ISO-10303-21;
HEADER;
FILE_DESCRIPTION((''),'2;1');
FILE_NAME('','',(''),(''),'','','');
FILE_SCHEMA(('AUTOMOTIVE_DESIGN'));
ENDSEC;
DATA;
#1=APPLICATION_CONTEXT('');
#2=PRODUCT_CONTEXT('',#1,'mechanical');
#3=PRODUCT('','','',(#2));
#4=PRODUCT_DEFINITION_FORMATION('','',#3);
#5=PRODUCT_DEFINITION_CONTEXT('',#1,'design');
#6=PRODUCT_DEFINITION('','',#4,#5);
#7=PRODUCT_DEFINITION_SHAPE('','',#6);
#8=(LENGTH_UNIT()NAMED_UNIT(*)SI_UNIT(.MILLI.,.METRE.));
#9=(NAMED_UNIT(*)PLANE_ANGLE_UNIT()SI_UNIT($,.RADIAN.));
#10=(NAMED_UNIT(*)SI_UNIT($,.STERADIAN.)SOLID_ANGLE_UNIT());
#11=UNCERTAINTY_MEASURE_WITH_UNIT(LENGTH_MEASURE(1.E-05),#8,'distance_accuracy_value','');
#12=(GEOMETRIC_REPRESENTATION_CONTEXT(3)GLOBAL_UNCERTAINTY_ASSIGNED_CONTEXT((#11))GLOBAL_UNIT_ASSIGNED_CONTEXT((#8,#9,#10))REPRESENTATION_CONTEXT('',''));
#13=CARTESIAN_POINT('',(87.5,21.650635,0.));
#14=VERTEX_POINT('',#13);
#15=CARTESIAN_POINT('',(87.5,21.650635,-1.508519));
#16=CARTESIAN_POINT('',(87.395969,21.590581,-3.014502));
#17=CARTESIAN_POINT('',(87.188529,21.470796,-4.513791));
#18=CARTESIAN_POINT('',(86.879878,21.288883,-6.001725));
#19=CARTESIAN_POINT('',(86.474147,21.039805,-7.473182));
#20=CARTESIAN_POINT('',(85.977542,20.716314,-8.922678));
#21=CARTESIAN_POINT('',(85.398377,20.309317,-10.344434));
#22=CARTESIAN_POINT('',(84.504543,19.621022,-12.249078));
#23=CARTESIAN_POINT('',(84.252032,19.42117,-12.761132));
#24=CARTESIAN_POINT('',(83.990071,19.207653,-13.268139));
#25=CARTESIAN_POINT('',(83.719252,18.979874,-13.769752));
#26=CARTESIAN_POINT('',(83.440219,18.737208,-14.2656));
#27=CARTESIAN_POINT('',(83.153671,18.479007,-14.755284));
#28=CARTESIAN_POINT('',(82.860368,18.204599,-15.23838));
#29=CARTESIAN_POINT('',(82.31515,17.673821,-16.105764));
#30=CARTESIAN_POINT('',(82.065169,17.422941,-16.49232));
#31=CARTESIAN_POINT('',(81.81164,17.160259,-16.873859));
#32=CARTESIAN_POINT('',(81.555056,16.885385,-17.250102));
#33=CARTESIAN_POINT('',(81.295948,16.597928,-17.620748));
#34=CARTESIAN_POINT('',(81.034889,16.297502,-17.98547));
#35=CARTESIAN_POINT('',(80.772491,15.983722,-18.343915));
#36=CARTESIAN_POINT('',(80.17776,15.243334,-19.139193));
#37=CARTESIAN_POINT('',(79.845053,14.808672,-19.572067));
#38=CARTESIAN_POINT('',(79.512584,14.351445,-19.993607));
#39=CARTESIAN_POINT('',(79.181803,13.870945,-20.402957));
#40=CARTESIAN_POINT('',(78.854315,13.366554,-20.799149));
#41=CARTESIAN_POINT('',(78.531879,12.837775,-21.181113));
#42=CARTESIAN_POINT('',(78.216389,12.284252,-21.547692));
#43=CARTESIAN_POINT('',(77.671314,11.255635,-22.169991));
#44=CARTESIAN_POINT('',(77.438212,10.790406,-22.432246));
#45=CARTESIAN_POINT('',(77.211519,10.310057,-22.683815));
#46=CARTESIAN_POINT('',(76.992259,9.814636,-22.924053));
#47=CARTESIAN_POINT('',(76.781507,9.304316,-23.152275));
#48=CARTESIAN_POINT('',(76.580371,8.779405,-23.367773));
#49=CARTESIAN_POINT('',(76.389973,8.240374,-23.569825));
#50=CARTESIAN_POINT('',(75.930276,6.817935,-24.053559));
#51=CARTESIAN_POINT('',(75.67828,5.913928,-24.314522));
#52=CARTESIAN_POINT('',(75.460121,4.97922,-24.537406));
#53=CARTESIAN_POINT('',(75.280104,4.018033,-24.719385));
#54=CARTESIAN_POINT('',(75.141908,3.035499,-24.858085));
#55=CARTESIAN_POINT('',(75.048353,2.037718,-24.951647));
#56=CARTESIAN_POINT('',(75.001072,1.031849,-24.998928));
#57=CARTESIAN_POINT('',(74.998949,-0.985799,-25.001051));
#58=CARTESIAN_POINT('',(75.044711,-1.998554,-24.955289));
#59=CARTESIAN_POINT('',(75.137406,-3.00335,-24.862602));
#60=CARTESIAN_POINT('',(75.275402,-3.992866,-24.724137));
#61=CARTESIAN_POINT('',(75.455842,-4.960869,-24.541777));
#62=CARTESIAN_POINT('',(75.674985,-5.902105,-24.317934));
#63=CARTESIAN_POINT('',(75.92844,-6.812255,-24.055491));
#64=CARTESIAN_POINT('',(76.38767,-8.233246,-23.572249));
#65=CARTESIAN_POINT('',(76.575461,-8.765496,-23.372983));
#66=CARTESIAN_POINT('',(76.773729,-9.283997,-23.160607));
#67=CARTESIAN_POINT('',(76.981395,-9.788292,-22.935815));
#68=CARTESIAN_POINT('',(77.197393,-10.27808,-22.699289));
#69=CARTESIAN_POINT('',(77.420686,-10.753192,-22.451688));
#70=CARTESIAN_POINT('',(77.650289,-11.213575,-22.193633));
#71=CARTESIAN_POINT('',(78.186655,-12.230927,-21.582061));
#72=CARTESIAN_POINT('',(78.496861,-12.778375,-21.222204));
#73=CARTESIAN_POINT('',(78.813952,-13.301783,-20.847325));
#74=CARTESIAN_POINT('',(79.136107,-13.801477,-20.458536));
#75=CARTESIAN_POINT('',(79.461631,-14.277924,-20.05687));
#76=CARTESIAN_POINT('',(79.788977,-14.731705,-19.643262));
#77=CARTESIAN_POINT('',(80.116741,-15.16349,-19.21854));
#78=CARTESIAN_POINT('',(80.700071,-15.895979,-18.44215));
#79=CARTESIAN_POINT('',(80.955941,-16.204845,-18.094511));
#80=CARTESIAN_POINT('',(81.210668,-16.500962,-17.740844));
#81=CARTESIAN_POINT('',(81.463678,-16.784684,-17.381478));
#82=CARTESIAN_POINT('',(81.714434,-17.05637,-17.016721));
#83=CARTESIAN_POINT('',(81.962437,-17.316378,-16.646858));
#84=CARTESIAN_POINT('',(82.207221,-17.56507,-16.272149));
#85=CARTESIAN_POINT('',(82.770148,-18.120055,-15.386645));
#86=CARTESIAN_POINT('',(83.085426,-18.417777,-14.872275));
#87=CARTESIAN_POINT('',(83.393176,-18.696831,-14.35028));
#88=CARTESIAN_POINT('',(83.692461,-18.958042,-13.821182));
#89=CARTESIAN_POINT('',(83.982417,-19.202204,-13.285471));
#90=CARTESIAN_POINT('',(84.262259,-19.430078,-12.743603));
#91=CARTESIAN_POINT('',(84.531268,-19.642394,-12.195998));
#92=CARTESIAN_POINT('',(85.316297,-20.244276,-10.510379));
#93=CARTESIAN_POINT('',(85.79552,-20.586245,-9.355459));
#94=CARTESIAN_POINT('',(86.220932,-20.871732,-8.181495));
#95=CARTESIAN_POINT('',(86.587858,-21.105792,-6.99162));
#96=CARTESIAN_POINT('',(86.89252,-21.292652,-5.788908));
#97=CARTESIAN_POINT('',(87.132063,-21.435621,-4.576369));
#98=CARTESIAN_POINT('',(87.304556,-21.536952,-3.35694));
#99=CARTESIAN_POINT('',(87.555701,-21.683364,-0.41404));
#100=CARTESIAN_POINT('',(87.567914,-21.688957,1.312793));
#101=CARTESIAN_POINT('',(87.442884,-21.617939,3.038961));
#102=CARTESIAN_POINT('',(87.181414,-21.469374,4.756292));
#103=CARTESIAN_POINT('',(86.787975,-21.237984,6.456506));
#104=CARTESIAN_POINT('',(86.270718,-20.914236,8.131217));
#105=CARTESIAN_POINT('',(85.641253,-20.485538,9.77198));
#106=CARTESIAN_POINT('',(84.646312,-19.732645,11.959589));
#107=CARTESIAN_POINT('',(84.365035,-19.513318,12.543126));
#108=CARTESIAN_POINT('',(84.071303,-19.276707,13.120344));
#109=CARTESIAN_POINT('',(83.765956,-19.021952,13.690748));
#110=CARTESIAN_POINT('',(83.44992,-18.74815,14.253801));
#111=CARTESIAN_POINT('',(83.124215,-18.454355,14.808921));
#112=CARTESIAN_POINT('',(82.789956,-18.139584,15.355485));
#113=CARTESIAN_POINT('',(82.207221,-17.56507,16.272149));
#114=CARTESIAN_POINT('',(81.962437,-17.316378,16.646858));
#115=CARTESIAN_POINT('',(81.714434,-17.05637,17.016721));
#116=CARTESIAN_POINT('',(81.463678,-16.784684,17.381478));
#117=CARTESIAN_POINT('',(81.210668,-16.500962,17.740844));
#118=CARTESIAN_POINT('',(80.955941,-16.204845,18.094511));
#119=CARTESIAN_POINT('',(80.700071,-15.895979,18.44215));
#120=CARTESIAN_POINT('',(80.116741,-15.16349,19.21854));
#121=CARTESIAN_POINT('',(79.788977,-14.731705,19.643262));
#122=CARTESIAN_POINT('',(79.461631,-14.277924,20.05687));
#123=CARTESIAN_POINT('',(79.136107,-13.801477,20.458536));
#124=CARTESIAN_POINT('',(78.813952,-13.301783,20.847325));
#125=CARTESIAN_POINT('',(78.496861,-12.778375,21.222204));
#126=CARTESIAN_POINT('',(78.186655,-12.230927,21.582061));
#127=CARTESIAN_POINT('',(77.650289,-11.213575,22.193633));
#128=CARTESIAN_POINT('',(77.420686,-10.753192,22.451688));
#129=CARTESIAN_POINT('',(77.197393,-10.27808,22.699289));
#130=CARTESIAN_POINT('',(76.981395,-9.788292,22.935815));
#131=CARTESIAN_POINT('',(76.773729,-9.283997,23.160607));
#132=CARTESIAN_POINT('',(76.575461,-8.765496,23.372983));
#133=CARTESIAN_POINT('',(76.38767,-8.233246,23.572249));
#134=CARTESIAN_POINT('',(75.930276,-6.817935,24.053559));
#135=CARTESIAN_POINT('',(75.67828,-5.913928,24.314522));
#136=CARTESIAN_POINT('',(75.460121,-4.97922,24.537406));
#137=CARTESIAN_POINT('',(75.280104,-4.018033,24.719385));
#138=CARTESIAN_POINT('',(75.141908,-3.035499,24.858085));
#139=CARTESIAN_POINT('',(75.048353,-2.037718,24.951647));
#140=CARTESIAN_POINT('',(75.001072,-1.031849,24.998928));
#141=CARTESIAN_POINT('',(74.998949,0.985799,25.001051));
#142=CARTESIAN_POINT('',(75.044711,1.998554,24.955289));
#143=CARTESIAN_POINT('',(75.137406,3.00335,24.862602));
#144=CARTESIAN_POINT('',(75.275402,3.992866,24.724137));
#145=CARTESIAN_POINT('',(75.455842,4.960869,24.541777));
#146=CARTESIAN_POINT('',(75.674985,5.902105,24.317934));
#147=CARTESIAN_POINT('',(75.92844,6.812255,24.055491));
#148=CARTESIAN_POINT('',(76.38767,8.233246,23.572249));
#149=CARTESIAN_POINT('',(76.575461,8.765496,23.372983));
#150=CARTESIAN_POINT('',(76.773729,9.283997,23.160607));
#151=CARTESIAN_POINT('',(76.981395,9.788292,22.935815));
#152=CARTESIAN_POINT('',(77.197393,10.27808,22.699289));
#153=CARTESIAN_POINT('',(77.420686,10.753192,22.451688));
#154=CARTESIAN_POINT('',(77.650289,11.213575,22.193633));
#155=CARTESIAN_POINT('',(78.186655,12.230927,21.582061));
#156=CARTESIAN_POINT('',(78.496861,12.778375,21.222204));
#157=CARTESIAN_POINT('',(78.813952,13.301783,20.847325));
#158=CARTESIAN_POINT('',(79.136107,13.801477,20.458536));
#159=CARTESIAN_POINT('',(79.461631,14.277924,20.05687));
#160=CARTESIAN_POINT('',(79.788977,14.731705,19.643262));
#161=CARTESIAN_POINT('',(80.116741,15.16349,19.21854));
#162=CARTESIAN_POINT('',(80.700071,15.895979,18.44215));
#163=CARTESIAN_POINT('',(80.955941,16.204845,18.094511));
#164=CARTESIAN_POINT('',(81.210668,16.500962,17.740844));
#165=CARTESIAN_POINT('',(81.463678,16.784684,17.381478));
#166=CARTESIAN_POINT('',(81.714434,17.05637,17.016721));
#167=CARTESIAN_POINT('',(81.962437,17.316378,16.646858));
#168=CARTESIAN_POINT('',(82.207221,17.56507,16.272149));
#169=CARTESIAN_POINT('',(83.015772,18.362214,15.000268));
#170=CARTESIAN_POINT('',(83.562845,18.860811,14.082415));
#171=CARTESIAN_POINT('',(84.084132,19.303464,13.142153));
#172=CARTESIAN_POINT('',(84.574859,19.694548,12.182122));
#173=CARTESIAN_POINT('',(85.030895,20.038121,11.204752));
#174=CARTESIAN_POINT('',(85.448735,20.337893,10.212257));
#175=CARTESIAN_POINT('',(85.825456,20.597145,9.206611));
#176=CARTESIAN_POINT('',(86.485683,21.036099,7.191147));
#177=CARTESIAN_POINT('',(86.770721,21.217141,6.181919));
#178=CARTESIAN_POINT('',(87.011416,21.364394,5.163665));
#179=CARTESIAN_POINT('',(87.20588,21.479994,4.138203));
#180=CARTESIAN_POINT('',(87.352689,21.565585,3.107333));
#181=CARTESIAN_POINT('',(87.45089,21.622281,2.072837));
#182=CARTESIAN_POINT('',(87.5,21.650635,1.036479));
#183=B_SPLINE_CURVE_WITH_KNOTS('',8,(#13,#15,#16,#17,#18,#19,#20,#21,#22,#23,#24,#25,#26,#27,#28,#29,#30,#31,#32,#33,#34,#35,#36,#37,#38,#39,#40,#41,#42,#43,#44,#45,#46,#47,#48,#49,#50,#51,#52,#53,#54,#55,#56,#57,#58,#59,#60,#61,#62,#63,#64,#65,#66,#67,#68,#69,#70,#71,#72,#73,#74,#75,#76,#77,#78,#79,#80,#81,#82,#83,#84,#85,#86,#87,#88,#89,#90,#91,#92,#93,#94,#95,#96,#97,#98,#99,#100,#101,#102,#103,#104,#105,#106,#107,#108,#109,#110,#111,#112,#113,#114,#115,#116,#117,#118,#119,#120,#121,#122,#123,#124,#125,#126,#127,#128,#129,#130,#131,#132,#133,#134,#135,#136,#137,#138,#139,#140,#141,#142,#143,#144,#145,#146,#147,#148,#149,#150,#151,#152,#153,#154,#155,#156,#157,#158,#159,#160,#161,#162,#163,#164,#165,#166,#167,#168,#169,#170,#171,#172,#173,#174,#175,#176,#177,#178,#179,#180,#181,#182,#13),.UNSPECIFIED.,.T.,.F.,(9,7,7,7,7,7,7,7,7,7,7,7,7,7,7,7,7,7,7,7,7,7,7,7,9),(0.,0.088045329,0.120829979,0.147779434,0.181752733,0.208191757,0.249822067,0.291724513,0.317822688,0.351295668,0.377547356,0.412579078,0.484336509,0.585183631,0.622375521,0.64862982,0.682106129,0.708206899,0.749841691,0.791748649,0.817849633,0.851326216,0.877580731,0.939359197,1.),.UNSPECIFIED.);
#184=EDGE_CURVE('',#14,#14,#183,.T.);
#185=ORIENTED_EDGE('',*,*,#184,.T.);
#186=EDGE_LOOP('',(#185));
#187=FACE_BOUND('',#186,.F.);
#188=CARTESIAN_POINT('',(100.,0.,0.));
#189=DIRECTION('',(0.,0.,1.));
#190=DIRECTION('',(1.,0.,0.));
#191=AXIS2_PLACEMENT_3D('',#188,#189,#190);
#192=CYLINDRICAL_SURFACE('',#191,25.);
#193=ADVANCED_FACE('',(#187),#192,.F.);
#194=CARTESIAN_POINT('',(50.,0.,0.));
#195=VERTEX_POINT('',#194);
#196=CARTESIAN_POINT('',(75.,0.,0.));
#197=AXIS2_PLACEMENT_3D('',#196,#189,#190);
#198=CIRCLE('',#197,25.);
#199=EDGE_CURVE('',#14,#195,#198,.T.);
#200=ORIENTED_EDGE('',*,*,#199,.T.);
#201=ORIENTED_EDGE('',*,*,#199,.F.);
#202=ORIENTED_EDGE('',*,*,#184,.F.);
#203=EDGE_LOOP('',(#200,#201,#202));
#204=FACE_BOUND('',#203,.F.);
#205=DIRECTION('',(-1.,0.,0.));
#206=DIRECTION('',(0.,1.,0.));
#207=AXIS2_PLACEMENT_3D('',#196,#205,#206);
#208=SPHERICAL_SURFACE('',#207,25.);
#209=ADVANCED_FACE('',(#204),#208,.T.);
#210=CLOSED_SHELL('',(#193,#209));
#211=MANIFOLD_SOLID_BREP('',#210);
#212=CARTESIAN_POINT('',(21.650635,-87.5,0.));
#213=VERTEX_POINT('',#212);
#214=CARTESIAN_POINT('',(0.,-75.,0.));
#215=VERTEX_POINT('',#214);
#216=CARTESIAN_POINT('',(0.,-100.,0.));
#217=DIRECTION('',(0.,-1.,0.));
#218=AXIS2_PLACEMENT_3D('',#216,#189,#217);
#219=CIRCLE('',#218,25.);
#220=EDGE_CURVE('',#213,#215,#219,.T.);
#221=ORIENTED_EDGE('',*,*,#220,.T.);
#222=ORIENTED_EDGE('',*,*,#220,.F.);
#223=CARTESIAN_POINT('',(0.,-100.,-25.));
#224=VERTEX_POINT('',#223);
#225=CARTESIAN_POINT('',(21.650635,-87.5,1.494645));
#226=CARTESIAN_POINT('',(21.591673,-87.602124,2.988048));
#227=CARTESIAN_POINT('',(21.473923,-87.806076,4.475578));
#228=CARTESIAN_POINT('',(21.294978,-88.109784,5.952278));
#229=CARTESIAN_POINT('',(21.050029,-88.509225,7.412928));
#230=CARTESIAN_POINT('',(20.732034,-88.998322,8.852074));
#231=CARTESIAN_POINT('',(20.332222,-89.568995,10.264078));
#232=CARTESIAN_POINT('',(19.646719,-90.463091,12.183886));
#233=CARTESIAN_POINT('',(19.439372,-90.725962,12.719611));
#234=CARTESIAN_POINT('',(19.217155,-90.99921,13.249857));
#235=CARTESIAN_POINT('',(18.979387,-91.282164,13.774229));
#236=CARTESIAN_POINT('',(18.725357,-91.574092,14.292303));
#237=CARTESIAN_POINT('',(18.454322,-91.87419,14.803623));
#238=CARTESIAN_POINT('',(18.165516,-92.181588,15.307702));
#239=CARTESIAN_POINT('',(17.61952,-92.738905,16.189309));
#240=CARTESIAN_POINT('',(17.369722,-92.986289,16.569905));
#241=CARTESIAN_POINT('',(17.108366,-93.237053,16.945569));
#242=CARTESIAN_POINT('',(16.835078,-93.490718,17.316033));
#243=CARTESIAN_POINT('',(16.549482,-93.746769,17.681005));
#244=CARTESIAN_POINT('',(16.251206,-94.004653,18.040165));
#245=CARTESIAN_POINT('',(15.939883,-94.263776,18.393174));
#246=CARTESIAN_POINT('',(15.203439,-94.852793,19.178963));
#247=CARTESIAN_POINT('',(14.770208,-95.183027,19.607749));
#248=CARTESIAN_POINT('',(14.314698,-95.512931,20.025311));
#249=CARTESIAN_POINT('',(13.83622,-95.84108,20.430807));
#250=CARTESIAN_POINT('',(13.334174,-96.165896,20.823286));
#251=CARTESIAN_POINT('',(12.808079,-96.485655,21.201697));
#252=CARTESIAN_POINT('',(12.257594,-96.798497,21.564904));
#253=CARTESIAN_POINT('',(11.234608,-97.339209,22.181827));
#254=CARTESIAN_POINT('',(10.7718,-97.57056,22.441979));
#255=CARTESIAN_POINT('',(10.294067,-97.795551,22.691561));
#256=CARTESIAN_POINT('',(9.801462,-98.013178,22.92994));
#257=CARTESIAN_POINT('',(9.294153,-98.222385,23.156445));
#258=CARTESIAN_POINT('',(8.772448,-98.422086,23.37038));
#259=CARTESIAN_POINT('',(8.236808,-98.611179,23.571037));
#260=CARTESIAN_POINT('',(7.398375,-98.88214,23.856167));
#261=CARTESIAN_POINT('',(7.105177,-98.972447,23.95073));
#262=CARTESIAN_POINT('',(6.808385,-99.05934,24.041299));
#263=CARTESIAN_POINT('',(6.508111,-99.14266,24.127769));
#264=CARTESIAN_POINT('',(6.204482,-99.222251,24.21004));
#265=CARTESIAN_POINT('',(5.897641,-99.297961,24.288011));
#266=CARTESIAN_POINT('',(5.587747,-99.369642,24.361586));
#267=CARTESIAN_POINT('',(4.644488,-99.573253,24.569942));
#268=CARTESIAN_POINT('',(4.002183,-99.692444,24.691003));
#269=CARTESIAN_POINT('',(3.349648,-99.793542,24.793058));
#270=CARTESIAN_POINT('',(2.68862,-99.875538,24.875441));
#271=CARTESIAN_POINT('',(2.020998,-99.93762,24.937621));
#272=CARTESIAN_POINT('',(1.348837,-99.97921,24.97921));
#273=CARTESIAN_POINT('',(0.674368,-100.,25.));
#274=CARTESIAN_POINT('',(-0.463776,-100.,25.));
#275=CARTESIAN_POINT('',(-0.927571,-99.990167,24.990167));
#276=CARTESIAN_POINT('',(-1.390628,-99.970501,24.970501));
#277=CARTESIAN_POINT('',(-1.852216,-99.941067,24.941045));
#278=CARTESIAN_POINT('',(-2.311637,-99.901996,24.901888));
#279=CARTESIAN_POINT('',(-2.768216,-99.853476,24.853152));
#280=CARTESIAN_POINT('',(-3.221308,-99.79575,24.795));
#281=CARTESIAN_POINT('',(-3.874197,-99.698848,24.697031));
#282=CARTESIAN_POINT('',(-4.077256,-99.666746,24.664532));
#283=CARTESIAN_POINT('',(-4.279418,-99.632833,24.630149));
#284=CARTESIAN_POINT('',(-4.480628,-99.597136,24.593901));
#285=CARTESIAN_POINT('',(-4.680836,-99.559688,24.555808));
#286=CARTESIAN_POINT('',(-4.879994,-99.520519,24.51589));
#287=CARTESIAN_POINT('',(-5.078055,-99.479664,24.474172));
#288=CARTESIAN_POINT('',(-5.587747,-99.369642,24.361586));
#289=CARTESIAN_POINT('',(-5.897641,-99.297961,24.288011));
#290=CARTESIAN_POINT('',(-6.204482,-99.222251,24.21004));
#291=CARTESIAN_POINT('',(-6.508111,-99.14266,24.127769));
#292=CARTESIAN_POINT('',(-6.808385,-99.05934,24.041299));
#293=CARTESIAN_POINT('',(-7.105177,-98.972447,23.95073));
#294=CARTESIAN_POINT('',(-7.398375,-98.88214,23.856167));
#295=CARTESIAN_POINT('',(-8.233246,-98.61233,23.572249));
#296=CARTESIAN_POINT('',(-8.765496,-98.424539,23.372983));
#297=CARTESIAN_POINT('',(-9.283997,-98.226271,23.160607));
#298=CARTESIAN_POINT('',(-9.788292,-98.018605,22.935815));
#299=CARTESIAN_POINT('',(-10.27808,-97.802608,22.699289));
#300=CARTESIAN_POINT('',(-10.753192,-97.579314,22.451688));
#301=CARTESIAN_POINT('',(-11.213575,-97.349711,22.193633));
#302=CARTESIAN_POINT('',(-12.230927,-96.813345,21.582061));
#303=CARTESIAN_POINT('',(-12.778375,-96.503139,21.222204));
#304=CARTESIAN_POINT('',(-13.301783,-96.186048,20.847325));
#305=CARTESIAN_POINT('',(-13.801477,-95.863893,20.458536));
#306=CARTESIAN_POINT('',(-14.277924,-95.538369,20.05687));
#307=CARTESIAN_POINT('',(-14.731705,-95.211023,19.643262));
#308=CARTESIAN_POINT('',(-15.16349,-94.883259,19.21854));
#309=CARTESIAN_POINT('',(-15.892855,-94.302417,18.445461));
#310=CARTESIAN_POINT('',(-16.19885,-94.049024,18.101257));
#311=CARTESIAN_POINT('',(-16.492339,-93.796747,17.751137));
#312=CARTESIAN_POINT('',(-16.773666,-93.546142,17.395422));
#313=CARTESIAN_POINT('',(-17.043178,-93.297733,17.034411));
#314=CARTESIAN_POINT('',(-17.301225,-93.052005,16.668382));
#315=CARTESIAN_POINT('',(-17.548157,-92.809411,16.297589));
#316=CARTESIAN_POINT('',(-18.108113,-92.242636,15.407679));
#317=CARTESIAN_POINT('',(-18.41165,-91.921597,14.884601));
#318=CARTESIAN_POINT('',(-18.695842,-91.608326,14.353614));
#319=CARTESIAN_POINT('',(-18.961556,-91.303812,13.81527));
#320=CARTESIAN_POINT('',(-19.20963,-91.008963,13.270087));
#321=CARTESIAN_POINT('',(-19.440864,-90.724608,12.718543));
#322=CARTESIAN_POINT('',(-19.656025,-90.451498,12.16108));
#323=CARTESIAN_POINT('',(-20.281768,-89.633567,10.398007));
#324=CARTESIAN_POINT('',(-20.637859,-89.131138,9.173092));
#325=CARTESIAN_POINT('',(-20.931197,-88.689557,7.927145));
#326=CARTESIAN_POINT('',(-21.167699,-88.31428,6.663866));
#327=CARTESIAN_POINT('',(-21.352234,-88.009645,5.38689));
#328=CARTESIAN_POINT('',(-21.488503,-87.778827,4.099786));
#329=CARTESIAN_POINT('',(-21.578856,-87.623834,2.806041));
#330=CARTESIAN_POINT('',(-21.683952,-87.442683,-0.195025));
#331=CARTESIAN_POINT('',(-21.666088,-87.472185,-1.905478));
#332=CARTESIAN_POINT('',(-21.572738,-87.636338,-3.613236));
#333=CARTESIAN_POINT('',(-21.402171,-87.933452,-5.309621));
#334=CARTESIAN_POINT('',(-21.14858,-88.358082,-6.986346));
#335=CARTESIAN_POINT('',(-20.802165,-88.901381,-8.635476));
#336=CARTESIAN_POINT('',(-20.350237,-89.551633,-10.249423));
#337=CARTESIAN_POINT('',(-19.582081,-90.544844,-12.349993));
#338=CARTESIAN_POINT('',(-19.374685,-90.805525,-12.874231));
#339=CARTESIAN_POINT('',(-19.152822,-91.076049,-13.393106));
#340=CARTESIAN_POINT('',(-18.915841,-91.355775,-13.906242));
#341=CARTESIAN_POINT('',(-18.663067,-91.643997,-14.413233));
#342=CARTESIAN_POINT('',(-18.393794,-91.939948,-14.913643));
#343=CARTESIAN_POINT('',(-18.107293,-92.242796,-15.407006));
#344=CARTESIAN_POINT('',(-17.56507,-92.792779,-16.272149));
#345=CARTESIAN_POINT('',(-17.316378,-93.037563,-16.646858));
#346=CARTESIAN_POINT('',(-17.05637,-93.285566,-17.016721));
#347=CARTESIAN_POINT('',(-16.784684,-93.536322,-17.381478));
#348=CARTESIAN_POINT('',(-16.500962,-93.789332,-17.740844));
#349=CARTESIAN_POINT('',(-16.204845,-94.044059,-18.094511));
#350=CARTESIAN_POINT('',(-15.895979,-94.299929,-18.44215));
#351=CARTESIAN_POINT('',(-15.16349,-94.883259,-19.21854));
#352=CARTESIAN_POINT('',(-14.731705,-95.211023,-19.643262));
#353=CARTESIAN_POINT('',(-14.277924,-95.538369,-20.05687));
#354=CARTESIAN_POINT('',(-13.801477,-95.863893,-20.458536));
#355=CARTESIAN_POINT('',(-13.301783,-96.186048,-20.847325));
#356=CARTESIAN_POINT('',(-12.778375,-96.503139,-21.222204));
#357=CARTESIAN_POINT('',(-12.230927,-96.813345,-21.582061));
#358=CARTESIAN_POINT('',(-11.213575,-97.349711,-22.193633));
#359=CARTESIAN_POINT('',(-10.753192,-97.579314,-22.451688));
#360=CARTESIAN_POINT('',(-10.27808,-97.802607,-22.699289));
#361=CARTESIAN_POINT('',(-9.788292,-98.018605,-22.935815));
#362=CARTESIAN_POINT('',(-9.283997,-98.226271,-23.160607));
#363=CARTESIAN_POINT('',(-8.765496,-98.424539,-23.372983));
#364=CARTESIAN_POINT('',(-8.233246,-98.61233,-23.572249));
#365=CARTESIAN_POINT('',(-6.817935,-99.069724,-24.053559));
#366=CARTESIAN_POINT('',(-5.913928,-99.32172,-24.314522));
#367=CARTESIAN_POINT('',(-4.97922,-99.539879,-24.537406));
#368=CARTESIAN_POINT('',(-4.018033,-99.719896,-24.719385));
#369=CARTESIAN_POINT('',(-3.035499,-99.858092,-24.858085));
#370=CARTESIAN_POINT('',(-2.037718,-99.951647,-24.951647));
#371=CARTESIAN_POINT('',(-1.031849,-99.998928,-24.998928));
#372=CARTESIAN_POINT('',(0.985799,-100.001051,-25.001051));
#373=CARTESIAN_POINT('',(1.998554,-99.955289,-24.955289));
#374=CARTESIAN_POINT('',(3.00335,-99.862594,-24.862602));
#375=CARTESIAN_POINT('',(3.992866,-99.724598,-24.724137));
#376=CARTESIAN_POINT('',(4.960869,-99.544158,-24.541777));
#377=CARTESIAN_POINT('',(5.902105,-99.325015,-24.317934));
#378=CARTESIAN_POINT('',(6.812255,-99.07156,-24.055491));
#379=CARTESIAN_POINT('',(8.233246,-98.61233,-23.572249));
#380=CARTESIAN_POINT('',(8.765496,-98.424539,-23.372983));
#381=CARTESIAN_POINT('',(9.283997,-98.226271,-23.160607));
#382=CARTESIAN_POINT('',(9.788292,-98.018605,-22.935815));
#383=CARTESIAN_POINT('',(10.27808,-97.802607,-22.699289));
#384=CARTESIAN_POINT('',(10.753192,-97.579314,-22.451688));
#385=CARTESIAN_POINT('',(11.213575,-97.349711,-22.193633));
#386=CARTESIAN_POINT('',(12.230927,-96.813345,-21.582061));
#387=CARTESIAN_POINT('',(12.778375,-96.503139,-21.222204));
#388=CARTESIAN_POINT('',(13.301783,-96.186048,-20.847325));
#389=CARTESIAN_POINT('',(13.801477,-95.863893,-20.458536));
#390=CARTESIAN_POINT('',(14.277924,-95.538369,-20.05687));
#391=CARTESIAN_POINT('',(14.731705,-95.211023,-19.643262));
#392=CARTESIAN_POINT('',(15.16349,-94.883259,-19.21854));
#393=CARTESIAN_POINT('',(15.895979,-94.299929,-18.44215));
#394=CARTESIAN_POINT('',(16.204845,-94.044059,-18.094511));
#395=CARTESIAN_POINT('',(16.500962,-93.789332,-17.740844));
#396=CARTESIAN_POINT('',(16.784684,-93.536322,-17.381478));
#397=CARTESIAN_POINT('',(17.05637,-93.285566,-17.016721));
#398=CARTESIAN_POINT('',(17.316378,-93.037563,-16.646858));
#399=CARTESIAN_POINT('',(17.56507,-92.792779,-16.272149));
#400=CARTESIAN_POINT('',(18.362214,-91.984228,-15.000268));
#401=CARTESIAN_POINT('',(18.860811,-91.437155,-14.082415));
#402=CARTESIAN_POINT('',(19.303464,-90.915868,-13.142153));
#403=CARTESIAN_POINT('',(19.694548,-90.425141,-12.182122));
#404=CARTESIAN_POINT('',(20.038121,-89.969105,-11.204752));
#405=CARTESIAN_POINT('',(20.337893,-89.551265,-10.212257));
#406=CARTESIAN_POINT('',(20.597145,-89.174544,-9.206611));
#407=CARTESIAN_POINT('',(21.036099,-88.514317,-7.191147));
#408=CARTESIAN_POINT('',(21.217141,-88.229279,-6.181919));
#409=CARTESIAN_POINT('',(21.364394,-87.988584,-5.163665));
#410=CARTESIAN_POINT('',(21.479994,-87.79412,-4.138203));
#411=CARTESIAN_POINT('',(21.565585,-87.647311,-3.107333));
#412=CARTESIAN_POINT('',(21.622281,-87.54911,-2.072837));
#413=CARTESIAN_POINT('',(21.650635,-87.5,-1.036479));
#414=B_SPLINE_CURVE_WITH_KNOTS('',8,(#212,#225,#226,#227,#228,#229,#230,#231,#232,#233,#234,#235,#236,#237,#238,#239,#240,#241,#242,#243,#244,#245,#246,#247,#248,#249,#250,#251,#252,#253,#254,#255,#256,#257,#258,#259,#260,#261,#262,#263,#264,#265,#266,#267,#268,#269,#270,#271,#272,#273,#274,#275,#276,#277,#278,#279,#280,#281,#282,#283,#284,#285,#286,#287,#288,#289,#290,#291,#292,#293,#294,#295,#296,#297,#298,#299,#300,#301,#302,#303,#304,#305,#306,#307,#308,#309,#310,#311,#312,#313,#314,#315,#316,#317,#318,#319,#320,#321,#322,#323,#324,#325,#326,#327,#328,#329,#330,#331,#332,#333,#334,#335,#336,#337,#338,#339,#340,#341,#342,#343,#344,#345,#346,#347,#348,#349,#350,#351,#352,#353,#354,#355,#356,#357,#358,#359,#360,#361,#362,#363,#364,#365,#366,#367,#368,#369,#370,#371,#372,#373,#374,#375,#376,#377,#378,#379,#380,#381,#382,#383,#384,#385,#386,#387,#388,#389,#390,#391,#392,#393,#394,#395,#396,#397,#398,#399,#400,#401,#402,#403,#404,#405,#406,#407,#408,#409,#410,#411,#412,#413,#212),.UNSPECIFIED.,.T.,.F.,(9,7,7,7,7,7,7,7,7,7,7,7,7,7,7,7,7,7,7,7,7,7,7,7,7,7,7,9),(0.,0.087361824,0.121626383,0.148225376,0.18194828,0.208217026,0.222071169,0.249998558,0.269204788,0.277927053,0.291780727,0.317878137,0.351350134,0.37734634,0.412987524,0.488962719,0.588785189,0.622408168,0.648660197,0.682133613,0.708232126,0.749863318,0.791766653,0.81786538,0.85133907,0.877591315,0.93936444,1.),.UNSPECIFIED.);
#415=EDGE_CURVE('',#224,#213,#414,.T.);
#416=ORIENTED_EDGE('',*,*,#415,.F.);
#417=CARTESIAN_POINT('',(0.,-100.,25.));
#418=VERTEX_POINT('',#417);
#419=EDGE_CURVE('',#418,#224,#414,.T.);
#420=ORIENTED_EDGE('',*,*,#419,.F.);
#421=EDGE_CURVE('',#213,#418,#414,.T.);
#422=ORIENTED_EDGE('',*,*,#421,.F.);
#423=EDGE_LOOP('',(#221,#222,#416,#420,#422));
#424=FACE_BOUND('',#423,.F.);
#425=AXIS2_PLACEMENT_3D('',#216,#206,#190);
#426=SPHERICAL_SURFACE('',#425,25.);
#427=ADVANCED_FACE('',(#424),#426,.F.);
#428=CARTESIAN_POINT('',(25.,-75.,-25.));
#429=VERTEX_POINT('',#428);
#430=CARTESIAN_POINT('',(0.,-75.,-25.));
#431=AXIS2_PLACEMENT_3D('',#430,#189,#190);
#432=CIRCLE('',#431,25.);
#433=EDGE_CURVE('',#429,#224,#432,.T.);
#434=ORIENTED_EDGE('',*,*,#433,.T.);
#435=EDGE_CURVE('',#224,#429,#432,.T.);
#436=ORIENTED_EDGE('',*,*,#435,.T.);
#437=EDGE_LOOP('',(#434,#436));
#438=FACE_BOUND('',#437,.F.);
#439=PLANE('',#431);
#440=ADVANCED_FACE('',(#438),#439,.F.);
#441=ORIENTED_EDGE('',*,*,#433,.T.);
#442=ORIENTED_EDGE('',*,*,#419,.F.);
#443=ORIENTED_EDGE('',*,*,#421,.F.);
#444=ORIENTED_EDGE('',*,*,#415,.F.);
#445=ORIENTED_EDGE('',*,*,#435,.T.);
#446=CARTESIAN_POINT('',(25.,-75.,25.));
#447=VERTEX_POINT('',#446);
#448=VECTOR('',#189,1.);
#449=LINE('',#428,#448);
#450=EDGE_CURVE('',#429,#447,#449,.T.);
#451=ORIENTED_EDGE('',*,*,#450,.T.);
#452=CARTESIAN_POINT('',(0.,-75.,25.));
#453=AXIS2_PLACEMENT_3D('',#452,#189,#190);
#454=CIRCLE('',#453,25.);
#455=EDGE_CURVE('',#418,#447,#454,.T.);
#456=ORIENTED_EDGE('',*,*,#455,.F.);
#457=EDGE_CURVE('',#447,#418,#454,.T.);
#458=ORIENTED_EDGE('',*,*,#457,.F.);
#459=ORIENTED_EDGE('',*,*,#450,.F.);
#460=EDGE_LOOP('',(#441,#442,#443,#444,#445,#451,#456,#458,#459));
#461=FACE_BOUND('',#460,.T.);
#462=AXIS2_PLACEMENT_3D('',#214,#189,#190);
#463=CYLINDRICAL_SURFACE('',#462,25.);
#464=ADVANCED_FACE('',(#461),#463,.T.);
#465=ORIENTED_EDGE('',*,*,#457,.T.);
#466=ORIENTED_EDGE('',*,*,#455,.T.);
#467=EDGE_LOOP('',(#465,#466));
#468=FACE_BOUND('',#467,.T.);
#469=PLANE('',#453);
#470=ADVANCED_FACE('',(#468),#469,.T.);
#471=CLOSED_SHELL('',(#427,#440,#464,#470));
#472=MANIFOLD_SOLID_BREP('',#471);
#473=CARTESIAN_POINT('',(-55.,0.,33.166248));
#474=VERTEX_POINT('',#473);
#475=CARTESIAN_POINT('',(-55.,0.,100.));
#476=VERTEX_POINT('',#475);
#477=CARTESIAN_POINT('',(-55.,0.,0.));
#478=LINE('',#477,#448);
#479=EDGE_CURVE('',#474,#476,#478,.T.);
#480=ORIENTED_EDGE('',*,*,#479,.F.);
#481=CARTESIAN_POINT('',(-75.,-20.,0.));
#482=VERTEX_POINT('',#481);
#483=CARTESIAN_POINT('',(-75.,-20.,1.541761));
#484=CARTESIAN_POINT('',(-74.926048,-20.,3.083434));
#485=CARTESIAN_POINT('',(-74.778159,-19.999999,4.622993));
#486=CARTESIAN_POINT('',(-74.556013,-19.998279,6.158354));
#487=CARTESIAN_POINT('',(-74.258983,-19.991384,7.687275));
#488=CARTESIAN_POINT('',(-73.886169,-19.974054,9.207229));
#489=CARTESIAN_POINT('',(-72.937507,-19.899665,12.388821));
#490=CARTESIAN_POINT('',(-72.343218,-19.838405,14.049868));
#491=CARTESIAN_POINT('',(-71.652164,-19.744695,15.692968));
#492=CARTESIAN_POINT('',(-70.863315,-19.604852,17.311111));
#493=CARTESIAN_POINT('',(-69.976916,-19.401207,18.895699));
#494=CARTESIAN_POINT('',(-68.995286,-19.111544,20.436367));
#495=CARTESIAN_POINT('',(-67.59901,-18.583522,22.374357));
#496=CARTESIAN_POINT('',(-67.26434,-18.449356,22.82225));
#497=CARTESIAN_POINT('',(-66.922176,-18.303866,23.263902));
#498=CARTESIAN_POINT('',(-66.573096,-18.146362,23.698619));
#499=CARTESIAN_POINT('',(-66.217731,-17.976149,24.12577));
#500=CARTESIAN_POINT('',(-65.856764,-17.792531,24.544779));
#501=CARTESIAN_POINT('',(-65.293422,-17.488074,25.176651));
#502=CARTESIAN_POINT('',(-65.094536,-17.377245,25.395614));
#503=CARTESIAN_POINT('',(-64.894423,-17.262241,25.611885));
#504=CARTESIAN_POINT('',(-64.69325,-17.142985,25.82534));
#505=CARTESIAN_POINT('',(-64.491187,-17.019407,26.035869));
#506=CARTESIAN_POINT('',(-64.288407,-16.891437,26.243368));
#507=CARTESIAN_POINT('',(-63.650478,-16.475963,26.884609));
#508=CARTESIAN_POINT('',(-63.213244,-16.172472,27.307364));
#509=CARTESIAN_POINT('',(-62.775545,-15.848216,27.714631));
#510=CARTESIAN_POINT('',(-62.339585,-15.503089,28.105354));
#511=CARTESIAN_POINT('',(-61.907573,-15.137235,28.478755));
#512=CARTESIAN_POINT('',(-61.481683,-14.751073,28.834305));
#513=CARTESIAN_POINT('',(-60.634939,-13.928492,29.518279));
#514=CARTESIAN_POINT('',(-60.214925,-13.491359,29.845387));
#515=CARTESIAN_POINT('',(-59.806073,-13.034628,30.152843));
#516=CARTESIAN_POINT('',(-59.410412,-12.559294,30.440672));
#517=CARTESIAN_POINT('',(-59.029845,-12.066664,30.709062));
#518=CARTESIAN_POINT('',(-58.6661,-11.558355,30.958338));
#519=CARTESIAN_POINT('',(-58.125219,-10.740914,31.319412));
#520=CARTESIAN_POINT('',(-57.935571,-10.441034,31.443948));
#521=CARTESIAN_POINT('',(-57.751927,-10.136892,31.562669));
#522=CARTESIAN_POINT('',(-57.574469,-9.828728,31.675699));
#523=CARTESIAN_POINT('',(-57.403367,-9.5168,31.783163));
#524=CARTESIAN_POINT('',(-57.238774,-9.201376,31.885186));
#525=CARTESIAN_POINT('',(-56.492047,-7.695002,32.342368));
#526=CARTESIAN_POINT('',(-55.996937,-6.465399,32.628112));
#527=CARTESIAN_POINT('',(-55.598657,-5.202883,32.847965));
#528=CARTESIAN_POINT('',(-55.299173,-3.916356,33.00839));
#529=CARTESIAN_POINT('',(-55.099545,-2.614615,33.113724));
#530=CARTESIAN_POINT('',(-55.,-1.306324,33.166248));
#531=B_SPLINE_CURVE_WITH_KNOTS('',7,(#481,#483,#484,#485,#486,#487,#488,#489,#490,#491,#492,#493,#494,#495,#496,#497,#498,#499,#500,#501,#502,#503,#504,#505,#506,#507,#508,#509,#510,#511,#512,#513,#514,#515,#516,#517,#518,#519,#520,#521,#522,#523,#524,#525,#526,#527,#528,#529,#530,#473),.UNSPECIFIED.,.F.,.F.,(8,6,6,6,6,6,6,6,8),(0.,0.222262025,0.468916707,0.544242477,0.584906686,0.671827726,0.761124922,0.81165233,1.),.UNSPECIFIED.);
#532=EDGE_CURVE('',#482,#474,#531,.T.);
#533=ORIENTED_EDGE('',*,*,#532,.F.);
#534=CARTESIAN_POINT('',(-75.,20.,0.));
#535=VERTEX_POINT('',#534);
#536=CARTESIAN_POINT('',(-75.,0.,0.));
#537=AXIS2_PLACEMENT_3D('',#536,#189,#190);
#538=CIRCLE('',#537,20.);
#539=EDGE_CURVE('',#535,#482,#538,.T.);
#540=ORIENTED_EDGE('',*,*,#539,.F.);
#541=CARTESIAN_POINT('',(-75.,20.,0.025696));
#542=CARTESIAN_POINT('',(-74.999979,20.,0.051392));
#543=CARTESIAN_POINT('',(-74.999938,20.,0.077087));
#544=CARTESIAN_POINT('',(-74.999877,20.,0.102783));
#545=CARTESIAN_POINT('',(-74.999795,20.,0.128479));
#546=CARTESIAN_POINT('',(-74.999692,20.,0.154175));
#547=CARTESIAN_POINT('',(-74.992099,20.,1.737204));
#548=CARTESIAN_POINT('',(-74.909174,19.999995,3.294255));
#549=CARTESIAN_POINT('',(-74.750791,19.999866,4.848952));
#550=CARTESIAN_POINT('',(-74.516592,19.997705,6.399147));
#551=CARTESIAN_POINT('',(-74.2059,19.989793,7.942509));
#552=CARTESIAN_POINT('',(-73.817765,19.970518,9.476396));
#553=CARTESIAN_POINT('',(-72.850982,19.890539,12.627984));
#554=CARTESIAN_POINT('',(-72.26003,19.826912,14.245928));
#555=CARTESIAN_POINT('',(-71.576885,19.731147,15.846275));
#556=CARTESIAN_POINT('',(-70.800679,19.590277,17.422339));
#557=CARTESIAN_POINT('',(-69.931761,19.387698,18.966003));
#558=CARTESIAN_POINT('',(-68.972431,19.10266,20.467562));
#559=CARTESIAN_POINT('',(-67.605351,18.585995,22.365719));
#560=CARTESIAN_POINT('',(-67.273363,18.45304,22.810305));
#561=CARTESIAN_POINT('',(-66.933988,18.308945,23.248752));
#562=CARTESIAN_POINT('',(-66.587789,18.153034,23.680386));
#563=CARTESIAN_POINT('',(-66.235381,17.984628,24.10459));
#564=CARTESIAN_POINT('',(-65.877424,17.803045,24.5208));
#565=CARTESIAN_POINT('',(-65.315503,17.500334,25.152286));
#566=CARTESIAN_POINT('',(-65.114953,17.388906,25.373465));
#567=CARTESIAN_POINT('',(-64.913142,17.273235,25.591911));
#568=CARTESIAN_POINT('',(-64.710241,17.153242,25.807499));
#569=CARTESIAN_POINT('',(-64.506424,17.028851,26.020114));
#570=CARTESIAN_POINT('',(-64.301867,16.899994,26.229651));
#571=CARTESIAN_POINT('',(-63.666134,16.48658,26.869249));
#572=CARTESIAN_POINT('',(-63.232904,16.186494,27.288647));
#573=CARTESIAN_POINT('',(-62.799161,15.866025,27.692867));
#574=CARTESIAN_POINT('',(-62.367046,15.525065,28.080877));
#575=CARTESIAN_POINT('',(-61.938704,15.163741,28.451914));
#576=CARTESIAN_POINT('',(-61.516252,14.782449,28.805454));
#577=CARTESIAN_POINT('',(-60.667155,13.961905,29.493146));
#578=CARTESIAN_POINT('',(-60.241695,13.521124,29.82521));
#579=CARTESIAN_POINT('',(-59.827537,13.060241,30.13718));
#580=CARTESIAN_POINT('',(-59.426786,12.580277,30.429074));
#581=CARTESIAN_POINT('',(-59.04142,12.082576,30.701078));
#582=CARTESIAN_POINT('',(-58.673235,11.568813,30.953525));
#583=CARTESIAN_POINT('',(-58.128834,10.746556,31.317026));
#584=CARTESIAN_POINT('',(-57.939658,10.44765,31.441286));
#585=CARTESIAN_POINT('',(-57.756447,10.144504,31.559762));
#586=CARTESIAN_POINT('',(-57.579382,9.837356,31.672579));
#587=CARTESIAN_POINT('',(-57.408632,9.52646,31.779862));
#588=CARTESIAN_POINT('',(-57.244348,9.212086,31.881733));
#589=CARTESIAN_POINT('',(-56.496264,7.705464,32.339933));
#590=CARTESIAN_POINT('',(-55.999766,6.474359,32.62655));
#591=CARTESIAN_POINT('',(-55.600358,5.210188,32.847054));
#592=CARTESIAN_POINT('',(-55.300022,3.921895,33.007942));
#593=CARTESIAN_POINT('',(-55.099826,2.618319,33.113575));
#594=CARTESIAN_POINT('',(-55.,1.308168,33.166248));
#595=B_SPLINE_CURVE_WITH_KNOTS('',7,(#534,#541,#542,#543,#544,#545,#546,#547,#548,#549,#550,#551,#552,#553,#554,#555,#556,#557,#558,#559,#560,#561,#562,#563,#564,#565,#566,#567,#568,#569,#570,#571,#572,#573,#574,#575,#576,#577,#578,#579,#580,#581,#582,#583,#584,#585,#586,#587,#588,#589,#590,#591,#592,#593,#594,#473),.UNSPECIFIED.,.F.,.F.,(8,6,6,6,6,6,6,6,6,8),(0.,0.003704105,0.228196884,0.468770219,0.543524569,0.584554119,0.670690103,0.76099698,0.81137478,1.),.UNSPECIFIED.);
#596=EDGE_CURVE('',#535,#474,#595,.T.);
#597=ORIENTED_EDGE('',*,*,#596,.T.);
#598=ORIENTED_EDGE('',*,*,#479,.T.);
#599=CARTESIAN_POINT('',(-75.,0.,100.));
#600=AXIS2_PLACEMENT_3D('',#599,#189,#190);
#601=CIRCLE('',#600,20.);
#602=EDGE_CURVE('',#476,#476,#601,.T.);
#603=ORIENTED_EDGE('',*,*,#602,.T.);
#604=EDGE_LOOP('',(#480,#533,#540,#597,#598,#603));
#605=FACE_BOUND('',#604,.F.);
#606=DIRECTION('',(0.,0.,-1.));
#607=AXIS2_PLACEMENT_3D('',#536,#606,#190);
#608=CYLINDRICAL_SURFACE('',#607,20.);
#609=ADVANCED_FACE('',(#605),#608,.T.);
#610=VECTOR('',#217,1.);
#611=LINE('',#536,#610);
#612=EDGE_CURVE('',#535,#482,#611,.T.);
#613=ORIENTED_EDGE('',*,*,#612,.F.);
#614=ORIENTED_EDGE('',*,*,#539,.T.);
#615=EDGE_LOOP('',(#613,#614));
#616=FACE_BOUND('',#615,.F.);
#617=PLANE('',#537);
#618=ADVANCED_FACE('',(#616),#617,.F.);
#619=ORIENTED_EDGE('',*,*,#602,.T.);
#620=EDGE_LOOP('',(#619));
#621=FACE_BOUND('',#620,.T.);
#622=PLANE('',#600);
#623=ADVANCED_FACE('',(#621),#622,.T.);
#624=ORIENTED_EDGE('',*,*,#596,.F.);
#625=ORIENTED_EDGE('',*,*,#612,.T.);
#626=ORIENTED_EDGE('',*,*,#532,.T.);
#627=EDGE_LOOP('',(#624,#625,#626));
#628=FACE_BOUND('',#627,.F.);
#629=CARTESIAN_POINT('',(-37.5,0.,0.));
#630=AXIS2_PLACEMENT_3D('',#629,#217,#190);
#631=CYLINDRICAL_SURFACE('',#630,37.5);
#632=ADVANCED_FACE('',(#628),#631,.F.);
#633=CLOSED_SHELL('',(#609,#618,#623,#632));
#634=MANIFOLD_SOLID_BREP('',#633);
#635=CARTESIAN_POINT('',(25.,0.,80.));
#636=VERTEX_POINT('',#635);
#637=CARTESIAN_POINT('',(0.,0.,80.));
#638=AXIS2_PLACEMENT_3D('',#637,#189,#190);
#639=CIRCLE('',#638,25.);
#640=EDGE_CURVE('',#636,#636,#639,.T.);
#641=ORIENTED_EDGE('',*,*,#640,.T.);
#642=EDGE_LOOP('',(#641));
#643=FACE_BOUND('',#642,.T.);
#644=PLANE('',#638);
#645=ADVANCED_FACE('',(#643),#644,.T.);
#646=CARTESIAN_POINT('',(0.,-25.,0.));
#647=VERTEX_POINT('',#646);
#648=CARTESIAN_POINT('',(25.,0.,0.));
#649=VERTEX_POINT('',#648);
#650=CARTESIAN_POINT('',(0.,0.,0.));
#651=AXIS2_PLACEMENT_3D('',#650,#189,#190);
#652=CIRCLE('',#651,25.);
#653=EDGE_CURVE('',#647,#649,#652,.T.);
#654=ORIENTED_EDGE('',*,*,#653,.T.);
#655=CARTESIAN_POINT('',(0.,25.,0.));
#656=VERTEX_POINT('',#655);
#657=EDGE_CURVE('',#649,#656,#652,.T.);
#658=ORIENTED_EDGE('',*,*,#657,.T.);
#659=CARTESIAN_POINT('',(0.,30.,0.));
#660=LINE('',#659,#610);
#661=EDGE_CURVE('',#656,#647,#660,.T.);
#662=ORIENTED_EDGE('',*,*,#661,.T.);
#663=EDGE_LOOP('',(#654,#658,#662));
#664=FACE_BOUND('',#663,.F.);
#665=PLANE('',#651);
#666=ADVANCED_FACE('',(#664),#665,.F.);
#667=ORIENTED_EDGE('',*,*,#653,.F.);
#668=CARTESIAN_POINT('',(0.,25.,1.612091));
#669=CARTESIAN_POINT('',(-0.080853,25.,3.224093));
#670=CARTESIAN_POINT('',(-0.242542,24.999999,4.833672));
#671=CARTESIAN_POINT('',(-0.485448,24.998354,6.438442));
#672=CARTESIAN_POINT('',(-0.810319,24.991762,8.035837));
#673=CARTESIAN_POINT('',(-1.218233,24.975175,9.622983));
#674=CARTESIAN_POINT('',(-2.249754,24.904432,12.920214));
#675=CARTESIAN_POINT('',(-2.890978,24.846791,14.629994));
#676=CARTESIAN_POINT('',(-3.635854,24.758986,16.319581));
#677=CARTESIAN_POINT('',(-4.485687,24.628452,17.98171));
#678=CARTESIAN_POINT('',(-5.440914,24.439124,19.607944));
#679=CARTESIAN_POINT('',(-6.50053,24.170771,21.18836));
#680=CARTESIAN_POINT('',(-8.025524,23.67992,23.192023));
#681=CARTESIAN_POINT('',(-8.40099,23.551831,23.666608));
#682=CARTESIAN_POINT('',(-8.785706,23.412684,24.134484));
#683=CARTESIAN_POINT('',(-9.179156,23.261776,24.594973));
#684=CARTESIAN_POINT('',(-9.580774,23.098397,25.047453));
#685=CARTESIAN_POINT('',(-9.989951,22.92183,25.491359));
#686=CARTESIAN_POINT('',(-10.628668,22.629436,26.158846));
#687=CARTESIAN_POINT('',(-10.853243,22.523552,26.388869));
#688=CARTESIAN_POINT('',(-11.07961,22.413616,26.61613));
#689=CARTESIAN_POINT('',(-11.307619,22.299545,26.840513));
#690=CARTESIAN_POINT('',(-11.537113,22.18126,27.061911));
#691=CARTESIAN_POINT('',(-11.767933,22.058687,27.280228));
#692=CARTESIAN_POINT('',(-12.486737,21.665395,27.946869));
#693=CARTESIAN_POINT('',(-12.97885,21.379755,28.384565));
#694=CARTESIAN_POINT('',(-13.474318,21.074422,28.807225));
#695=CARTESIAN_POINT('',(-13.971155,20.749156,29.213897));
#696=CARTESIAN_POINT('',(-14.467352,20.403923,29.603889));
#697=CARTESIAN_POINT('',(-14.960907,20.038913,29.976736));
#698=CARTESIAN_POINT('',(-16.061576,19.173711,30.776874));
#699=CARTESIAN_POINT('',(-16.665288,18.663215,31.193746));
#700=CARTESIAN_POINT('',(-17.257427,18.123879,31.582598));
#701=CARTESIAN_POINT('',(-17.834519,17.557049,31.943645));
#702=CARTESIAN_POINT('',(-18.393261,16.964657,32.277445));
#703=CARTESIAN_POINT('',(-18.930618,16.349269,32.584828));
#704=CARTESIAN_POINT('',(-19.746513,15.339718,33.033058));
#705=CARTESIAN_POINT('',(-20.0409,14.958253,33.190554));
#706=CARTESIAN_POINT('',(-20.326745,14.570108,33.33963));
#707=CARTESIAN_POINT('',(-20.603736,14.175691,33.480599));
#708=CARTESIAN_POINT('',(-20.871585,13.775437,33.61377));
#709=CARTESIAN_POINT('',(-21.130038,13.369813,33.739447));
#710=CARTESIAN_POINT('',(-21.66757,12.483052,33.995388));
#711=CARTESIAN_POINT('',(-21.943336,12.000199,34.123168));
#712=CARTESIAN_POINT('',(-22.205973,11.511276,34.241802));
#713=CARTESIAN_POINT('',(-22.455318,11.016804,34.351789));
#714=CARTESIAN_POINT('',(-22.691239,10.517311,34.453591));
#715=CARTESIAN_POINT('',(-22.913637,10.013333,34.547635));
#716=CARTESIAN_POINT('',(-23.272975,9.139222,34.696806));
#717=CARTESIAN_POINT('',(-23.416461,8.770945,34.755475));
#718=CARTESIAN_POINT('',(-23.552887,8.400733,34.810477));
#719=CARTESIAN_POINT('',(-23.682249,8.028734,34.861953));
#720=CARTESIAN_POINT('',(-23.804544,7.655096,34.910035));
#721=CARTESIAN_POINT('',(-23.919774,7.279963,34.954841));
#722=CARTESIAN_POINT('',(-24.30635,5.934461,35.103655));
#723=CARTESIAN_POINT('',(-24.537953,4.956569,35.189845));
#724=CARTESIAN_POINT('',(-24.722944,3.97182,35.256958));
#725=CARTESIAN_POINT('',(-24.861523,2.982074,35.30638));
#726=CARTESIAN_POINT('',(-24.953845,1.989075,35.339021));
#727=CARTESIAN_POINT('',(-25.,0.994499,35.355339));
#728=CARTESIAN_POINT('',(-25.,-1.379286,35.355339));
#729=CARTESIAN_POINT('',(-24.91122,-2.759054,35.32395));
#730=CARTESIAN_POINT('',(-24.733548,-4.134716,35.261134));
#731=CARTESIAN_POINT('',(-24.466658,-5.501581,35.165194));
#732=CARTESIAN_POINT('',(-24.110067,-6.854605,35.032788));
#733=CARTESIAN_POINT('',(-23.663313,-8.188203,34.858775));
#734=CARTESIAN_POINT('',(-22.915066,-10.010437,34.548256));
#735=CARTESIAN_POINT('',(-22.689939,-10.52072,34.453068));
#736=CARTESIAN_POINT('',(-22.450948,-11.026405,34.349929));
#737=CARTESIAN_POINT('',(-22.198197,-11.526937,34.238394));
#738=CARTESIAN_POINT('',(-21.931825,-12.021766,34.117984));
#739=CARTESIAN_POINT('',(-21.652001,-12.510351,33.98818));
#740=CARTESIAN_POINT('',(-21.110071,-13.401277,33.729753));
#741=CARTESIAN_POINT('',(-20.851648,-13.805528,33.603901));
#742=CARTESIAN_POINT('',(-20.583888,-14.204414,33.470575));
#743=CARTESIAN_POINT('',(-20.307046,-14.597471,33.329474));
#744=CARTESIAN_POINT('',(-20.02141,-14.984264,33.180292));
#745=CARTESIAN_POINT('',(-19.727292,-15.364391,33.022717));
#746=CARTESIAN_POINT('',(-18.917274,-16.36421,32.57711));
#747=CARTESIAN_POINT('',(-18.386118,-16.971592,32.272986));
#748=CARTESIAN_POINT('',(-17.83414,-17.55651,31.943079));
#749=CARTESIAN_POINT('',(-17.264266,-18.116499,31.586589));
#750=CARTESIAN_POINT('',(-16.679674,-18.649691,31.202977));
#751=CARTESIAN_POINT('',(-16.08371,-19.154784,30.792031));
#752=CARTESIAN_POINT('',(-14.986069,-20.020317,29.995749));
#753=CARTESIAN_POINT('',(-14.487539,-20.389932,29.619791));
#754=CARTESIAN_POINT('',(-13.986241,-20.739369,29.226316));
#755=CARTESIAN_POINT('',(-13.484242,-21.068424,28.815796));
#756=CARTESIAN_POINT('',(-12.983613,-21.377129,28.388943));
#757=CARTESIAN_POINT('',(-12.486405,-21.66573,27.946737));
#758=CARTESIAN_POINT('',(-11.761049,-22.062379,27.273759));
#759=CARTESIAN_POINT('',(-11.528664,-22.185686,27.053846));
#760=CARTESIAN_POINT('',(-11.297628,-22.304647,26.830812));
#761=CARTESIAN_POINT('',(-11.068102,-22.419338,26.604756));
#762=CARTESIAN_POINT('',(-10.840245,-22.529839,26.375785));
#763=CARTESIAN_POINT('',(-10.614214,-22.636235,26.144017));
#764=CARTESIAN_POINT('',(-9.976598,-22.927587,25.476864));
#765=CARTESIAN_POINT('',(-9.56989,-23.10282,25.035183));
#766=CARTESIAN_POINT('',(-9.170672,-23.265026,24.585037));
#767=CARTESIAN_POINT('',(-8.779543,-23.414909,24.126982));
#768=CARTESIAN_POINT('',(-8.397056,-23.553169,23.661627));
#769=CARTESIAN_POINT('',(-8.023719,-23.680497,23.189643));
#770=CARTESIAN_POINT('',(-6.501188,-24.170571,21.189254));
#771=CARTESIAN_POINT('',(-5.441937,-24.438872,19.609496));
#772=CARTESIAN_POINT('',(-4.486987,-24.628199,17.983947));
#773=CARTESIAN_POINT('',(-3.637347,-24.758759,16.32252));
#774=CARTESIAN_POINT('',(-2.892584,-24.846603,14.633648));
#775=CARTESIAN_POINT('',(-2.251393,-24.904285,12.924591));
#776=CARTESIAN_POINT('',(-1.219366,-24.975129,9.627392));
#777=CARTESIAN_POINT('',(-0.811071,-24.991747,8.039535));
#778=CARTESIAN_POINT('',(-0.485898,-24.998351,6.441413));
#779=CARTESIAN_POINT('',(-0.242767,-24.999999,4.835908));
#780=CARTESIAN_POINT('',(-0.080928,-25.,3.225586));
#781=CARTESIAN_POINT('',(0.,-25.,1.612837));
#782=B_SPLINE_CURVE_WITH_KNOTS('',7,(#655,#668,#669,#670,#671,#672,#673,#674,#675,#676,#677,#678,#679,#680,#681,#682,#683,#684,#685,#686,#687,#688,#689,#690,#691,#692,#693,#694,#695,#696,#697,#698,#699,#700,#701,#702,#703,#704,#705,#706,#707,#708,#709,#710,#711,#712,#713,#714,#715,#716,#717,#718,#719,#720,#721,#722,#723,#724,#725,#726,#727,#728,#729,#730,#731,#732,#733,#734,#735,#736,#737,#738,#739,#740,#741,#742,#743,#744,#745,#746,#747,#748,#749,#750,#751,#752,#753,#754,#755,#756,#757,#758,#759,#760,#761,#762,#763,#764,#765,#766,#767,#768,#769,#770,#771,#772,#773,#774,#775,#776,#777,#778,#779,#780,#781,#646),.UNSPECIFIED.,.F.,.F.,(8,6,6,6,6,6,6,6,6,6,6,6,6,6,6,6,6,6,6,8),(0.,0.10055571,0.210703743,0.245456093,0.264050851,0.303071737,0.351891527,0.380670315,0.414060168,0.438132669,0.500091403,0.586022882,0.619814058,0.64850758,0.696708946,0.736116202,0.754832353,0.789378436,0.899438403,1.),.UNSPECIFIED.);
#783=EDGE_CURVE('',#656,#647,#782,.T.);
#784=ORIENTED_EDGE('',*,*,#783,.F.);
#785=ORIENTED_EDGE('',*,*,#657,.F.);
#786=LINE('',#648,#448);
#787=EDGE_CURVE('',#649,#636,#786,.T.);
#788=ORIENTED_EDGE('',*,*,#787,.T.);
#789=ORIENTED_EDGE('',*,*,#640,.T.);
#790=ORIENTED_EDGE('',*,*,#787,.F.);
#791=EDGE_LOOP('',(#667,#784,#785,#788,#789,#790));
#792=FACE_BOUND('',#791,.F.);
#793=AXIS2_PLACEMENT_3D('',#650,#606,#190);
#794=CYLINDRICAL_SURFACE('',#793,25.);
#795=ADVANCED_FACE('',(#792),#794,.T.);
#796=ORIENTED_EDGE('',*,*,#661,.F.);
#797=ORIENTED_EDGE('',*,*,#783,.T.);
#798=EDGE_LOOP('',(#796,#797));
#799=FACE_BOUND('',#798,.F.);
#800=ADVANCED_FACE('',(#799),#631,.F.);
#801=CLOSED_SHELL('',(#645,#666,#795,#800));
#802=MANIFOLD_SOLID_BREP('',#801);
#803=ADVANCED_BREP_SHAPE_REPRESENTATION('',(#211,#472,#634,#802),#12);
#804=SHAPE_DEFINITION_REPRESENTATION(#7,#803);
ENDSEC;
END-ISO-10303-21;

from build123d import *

# Parameters (mm, degrees)
F0_R      = 25
F1_DEPTH  = 80
F2_R      = 20
F3_DEPTH  = 100
F4_R      = 37.5
F5_DEPTH  = 30
F8_R      = 25
F9_DEPTH  = 50
F10_R     = 25
F11_DEPTH = 25


with BuildPart() as f1:
    # F0 (on Top) → F1 (new body)
    with BuildSketch(Plane.XY):
        Circle(F0_R)
    extrude(amount=F1_DEPTH)


with BuildPart() as f3:
    # F2 (on Top) → F3 (new body)
    with BuildSketch(Plane.XY):
        with Locations((-75, 0)):
            Circle(F2_R)
    extrude(amount=F3_DEPTH)


with BuildPart() as f5_tool:
    # F4 (on Front) → F5 (new body, symmetric)
    with BuildSketch(Plane.XZ):
        with Locations((-37.5, 0)):
            Circle(F4_R)
    extrude(amount=F5_DEPTH, both=True)


with BuildPart() as f1_1:
    add(f1.part)

    # F5: cut by f5_tool
    add(f5_tool.part, mode=Mode.SUBTRACT)


with BuildPart() as f3_1:
    add(f3.part)

    # F5: cut by f5_tool
    add(f5_tool.part, mode=Mode.SUBTRACT)


with BuildPart() as f7:
    # F6 (on Top) → F7 (revolve)
    with BuildSketch(Plane.XY):
        with BuildLine():
            Line((50, 0), (100, 0))
            ThreePointArc((100, 0), (75, 25), (50, 0))
        make_face()
    revolve(axis=Axis((75, 0, 0), (1, 0, 0)))

    # F8 (on Top) → F9 (cut, symmetric)
    with BuildSketch(Plane.XY):
        with Locations((100, 0)):
            Circle(F8_R)
    extrude(amount=F9_DEPTH, both=True, mode=Mode.SUBTRACT)


with BuildPart() as f11:
    # F10 (on Top) → F11 (new body, symmetric)
    with BuildSketch(Plane.XY):
        with Locations((0, -75)):
            Circle(F10_R)
    extrude(amount=F11_DEPTH, both=True)

    # F12 (on Top) → F13 (revolve, cut)
    with BuildSketch(Plane.XY):
        with BuildLine():
            Line((0, -75), (0, -125))
            ThreePointArc((0, -125), (25, -100), (0, -75))
        make_face()
    revolve(axis=Axis((0, -100, 0), (0, 1, 0)), mode=Mode.SUBTRACT)


solid = Compound([f1_1.part, f3_1.part, f7.part, f11.part])
